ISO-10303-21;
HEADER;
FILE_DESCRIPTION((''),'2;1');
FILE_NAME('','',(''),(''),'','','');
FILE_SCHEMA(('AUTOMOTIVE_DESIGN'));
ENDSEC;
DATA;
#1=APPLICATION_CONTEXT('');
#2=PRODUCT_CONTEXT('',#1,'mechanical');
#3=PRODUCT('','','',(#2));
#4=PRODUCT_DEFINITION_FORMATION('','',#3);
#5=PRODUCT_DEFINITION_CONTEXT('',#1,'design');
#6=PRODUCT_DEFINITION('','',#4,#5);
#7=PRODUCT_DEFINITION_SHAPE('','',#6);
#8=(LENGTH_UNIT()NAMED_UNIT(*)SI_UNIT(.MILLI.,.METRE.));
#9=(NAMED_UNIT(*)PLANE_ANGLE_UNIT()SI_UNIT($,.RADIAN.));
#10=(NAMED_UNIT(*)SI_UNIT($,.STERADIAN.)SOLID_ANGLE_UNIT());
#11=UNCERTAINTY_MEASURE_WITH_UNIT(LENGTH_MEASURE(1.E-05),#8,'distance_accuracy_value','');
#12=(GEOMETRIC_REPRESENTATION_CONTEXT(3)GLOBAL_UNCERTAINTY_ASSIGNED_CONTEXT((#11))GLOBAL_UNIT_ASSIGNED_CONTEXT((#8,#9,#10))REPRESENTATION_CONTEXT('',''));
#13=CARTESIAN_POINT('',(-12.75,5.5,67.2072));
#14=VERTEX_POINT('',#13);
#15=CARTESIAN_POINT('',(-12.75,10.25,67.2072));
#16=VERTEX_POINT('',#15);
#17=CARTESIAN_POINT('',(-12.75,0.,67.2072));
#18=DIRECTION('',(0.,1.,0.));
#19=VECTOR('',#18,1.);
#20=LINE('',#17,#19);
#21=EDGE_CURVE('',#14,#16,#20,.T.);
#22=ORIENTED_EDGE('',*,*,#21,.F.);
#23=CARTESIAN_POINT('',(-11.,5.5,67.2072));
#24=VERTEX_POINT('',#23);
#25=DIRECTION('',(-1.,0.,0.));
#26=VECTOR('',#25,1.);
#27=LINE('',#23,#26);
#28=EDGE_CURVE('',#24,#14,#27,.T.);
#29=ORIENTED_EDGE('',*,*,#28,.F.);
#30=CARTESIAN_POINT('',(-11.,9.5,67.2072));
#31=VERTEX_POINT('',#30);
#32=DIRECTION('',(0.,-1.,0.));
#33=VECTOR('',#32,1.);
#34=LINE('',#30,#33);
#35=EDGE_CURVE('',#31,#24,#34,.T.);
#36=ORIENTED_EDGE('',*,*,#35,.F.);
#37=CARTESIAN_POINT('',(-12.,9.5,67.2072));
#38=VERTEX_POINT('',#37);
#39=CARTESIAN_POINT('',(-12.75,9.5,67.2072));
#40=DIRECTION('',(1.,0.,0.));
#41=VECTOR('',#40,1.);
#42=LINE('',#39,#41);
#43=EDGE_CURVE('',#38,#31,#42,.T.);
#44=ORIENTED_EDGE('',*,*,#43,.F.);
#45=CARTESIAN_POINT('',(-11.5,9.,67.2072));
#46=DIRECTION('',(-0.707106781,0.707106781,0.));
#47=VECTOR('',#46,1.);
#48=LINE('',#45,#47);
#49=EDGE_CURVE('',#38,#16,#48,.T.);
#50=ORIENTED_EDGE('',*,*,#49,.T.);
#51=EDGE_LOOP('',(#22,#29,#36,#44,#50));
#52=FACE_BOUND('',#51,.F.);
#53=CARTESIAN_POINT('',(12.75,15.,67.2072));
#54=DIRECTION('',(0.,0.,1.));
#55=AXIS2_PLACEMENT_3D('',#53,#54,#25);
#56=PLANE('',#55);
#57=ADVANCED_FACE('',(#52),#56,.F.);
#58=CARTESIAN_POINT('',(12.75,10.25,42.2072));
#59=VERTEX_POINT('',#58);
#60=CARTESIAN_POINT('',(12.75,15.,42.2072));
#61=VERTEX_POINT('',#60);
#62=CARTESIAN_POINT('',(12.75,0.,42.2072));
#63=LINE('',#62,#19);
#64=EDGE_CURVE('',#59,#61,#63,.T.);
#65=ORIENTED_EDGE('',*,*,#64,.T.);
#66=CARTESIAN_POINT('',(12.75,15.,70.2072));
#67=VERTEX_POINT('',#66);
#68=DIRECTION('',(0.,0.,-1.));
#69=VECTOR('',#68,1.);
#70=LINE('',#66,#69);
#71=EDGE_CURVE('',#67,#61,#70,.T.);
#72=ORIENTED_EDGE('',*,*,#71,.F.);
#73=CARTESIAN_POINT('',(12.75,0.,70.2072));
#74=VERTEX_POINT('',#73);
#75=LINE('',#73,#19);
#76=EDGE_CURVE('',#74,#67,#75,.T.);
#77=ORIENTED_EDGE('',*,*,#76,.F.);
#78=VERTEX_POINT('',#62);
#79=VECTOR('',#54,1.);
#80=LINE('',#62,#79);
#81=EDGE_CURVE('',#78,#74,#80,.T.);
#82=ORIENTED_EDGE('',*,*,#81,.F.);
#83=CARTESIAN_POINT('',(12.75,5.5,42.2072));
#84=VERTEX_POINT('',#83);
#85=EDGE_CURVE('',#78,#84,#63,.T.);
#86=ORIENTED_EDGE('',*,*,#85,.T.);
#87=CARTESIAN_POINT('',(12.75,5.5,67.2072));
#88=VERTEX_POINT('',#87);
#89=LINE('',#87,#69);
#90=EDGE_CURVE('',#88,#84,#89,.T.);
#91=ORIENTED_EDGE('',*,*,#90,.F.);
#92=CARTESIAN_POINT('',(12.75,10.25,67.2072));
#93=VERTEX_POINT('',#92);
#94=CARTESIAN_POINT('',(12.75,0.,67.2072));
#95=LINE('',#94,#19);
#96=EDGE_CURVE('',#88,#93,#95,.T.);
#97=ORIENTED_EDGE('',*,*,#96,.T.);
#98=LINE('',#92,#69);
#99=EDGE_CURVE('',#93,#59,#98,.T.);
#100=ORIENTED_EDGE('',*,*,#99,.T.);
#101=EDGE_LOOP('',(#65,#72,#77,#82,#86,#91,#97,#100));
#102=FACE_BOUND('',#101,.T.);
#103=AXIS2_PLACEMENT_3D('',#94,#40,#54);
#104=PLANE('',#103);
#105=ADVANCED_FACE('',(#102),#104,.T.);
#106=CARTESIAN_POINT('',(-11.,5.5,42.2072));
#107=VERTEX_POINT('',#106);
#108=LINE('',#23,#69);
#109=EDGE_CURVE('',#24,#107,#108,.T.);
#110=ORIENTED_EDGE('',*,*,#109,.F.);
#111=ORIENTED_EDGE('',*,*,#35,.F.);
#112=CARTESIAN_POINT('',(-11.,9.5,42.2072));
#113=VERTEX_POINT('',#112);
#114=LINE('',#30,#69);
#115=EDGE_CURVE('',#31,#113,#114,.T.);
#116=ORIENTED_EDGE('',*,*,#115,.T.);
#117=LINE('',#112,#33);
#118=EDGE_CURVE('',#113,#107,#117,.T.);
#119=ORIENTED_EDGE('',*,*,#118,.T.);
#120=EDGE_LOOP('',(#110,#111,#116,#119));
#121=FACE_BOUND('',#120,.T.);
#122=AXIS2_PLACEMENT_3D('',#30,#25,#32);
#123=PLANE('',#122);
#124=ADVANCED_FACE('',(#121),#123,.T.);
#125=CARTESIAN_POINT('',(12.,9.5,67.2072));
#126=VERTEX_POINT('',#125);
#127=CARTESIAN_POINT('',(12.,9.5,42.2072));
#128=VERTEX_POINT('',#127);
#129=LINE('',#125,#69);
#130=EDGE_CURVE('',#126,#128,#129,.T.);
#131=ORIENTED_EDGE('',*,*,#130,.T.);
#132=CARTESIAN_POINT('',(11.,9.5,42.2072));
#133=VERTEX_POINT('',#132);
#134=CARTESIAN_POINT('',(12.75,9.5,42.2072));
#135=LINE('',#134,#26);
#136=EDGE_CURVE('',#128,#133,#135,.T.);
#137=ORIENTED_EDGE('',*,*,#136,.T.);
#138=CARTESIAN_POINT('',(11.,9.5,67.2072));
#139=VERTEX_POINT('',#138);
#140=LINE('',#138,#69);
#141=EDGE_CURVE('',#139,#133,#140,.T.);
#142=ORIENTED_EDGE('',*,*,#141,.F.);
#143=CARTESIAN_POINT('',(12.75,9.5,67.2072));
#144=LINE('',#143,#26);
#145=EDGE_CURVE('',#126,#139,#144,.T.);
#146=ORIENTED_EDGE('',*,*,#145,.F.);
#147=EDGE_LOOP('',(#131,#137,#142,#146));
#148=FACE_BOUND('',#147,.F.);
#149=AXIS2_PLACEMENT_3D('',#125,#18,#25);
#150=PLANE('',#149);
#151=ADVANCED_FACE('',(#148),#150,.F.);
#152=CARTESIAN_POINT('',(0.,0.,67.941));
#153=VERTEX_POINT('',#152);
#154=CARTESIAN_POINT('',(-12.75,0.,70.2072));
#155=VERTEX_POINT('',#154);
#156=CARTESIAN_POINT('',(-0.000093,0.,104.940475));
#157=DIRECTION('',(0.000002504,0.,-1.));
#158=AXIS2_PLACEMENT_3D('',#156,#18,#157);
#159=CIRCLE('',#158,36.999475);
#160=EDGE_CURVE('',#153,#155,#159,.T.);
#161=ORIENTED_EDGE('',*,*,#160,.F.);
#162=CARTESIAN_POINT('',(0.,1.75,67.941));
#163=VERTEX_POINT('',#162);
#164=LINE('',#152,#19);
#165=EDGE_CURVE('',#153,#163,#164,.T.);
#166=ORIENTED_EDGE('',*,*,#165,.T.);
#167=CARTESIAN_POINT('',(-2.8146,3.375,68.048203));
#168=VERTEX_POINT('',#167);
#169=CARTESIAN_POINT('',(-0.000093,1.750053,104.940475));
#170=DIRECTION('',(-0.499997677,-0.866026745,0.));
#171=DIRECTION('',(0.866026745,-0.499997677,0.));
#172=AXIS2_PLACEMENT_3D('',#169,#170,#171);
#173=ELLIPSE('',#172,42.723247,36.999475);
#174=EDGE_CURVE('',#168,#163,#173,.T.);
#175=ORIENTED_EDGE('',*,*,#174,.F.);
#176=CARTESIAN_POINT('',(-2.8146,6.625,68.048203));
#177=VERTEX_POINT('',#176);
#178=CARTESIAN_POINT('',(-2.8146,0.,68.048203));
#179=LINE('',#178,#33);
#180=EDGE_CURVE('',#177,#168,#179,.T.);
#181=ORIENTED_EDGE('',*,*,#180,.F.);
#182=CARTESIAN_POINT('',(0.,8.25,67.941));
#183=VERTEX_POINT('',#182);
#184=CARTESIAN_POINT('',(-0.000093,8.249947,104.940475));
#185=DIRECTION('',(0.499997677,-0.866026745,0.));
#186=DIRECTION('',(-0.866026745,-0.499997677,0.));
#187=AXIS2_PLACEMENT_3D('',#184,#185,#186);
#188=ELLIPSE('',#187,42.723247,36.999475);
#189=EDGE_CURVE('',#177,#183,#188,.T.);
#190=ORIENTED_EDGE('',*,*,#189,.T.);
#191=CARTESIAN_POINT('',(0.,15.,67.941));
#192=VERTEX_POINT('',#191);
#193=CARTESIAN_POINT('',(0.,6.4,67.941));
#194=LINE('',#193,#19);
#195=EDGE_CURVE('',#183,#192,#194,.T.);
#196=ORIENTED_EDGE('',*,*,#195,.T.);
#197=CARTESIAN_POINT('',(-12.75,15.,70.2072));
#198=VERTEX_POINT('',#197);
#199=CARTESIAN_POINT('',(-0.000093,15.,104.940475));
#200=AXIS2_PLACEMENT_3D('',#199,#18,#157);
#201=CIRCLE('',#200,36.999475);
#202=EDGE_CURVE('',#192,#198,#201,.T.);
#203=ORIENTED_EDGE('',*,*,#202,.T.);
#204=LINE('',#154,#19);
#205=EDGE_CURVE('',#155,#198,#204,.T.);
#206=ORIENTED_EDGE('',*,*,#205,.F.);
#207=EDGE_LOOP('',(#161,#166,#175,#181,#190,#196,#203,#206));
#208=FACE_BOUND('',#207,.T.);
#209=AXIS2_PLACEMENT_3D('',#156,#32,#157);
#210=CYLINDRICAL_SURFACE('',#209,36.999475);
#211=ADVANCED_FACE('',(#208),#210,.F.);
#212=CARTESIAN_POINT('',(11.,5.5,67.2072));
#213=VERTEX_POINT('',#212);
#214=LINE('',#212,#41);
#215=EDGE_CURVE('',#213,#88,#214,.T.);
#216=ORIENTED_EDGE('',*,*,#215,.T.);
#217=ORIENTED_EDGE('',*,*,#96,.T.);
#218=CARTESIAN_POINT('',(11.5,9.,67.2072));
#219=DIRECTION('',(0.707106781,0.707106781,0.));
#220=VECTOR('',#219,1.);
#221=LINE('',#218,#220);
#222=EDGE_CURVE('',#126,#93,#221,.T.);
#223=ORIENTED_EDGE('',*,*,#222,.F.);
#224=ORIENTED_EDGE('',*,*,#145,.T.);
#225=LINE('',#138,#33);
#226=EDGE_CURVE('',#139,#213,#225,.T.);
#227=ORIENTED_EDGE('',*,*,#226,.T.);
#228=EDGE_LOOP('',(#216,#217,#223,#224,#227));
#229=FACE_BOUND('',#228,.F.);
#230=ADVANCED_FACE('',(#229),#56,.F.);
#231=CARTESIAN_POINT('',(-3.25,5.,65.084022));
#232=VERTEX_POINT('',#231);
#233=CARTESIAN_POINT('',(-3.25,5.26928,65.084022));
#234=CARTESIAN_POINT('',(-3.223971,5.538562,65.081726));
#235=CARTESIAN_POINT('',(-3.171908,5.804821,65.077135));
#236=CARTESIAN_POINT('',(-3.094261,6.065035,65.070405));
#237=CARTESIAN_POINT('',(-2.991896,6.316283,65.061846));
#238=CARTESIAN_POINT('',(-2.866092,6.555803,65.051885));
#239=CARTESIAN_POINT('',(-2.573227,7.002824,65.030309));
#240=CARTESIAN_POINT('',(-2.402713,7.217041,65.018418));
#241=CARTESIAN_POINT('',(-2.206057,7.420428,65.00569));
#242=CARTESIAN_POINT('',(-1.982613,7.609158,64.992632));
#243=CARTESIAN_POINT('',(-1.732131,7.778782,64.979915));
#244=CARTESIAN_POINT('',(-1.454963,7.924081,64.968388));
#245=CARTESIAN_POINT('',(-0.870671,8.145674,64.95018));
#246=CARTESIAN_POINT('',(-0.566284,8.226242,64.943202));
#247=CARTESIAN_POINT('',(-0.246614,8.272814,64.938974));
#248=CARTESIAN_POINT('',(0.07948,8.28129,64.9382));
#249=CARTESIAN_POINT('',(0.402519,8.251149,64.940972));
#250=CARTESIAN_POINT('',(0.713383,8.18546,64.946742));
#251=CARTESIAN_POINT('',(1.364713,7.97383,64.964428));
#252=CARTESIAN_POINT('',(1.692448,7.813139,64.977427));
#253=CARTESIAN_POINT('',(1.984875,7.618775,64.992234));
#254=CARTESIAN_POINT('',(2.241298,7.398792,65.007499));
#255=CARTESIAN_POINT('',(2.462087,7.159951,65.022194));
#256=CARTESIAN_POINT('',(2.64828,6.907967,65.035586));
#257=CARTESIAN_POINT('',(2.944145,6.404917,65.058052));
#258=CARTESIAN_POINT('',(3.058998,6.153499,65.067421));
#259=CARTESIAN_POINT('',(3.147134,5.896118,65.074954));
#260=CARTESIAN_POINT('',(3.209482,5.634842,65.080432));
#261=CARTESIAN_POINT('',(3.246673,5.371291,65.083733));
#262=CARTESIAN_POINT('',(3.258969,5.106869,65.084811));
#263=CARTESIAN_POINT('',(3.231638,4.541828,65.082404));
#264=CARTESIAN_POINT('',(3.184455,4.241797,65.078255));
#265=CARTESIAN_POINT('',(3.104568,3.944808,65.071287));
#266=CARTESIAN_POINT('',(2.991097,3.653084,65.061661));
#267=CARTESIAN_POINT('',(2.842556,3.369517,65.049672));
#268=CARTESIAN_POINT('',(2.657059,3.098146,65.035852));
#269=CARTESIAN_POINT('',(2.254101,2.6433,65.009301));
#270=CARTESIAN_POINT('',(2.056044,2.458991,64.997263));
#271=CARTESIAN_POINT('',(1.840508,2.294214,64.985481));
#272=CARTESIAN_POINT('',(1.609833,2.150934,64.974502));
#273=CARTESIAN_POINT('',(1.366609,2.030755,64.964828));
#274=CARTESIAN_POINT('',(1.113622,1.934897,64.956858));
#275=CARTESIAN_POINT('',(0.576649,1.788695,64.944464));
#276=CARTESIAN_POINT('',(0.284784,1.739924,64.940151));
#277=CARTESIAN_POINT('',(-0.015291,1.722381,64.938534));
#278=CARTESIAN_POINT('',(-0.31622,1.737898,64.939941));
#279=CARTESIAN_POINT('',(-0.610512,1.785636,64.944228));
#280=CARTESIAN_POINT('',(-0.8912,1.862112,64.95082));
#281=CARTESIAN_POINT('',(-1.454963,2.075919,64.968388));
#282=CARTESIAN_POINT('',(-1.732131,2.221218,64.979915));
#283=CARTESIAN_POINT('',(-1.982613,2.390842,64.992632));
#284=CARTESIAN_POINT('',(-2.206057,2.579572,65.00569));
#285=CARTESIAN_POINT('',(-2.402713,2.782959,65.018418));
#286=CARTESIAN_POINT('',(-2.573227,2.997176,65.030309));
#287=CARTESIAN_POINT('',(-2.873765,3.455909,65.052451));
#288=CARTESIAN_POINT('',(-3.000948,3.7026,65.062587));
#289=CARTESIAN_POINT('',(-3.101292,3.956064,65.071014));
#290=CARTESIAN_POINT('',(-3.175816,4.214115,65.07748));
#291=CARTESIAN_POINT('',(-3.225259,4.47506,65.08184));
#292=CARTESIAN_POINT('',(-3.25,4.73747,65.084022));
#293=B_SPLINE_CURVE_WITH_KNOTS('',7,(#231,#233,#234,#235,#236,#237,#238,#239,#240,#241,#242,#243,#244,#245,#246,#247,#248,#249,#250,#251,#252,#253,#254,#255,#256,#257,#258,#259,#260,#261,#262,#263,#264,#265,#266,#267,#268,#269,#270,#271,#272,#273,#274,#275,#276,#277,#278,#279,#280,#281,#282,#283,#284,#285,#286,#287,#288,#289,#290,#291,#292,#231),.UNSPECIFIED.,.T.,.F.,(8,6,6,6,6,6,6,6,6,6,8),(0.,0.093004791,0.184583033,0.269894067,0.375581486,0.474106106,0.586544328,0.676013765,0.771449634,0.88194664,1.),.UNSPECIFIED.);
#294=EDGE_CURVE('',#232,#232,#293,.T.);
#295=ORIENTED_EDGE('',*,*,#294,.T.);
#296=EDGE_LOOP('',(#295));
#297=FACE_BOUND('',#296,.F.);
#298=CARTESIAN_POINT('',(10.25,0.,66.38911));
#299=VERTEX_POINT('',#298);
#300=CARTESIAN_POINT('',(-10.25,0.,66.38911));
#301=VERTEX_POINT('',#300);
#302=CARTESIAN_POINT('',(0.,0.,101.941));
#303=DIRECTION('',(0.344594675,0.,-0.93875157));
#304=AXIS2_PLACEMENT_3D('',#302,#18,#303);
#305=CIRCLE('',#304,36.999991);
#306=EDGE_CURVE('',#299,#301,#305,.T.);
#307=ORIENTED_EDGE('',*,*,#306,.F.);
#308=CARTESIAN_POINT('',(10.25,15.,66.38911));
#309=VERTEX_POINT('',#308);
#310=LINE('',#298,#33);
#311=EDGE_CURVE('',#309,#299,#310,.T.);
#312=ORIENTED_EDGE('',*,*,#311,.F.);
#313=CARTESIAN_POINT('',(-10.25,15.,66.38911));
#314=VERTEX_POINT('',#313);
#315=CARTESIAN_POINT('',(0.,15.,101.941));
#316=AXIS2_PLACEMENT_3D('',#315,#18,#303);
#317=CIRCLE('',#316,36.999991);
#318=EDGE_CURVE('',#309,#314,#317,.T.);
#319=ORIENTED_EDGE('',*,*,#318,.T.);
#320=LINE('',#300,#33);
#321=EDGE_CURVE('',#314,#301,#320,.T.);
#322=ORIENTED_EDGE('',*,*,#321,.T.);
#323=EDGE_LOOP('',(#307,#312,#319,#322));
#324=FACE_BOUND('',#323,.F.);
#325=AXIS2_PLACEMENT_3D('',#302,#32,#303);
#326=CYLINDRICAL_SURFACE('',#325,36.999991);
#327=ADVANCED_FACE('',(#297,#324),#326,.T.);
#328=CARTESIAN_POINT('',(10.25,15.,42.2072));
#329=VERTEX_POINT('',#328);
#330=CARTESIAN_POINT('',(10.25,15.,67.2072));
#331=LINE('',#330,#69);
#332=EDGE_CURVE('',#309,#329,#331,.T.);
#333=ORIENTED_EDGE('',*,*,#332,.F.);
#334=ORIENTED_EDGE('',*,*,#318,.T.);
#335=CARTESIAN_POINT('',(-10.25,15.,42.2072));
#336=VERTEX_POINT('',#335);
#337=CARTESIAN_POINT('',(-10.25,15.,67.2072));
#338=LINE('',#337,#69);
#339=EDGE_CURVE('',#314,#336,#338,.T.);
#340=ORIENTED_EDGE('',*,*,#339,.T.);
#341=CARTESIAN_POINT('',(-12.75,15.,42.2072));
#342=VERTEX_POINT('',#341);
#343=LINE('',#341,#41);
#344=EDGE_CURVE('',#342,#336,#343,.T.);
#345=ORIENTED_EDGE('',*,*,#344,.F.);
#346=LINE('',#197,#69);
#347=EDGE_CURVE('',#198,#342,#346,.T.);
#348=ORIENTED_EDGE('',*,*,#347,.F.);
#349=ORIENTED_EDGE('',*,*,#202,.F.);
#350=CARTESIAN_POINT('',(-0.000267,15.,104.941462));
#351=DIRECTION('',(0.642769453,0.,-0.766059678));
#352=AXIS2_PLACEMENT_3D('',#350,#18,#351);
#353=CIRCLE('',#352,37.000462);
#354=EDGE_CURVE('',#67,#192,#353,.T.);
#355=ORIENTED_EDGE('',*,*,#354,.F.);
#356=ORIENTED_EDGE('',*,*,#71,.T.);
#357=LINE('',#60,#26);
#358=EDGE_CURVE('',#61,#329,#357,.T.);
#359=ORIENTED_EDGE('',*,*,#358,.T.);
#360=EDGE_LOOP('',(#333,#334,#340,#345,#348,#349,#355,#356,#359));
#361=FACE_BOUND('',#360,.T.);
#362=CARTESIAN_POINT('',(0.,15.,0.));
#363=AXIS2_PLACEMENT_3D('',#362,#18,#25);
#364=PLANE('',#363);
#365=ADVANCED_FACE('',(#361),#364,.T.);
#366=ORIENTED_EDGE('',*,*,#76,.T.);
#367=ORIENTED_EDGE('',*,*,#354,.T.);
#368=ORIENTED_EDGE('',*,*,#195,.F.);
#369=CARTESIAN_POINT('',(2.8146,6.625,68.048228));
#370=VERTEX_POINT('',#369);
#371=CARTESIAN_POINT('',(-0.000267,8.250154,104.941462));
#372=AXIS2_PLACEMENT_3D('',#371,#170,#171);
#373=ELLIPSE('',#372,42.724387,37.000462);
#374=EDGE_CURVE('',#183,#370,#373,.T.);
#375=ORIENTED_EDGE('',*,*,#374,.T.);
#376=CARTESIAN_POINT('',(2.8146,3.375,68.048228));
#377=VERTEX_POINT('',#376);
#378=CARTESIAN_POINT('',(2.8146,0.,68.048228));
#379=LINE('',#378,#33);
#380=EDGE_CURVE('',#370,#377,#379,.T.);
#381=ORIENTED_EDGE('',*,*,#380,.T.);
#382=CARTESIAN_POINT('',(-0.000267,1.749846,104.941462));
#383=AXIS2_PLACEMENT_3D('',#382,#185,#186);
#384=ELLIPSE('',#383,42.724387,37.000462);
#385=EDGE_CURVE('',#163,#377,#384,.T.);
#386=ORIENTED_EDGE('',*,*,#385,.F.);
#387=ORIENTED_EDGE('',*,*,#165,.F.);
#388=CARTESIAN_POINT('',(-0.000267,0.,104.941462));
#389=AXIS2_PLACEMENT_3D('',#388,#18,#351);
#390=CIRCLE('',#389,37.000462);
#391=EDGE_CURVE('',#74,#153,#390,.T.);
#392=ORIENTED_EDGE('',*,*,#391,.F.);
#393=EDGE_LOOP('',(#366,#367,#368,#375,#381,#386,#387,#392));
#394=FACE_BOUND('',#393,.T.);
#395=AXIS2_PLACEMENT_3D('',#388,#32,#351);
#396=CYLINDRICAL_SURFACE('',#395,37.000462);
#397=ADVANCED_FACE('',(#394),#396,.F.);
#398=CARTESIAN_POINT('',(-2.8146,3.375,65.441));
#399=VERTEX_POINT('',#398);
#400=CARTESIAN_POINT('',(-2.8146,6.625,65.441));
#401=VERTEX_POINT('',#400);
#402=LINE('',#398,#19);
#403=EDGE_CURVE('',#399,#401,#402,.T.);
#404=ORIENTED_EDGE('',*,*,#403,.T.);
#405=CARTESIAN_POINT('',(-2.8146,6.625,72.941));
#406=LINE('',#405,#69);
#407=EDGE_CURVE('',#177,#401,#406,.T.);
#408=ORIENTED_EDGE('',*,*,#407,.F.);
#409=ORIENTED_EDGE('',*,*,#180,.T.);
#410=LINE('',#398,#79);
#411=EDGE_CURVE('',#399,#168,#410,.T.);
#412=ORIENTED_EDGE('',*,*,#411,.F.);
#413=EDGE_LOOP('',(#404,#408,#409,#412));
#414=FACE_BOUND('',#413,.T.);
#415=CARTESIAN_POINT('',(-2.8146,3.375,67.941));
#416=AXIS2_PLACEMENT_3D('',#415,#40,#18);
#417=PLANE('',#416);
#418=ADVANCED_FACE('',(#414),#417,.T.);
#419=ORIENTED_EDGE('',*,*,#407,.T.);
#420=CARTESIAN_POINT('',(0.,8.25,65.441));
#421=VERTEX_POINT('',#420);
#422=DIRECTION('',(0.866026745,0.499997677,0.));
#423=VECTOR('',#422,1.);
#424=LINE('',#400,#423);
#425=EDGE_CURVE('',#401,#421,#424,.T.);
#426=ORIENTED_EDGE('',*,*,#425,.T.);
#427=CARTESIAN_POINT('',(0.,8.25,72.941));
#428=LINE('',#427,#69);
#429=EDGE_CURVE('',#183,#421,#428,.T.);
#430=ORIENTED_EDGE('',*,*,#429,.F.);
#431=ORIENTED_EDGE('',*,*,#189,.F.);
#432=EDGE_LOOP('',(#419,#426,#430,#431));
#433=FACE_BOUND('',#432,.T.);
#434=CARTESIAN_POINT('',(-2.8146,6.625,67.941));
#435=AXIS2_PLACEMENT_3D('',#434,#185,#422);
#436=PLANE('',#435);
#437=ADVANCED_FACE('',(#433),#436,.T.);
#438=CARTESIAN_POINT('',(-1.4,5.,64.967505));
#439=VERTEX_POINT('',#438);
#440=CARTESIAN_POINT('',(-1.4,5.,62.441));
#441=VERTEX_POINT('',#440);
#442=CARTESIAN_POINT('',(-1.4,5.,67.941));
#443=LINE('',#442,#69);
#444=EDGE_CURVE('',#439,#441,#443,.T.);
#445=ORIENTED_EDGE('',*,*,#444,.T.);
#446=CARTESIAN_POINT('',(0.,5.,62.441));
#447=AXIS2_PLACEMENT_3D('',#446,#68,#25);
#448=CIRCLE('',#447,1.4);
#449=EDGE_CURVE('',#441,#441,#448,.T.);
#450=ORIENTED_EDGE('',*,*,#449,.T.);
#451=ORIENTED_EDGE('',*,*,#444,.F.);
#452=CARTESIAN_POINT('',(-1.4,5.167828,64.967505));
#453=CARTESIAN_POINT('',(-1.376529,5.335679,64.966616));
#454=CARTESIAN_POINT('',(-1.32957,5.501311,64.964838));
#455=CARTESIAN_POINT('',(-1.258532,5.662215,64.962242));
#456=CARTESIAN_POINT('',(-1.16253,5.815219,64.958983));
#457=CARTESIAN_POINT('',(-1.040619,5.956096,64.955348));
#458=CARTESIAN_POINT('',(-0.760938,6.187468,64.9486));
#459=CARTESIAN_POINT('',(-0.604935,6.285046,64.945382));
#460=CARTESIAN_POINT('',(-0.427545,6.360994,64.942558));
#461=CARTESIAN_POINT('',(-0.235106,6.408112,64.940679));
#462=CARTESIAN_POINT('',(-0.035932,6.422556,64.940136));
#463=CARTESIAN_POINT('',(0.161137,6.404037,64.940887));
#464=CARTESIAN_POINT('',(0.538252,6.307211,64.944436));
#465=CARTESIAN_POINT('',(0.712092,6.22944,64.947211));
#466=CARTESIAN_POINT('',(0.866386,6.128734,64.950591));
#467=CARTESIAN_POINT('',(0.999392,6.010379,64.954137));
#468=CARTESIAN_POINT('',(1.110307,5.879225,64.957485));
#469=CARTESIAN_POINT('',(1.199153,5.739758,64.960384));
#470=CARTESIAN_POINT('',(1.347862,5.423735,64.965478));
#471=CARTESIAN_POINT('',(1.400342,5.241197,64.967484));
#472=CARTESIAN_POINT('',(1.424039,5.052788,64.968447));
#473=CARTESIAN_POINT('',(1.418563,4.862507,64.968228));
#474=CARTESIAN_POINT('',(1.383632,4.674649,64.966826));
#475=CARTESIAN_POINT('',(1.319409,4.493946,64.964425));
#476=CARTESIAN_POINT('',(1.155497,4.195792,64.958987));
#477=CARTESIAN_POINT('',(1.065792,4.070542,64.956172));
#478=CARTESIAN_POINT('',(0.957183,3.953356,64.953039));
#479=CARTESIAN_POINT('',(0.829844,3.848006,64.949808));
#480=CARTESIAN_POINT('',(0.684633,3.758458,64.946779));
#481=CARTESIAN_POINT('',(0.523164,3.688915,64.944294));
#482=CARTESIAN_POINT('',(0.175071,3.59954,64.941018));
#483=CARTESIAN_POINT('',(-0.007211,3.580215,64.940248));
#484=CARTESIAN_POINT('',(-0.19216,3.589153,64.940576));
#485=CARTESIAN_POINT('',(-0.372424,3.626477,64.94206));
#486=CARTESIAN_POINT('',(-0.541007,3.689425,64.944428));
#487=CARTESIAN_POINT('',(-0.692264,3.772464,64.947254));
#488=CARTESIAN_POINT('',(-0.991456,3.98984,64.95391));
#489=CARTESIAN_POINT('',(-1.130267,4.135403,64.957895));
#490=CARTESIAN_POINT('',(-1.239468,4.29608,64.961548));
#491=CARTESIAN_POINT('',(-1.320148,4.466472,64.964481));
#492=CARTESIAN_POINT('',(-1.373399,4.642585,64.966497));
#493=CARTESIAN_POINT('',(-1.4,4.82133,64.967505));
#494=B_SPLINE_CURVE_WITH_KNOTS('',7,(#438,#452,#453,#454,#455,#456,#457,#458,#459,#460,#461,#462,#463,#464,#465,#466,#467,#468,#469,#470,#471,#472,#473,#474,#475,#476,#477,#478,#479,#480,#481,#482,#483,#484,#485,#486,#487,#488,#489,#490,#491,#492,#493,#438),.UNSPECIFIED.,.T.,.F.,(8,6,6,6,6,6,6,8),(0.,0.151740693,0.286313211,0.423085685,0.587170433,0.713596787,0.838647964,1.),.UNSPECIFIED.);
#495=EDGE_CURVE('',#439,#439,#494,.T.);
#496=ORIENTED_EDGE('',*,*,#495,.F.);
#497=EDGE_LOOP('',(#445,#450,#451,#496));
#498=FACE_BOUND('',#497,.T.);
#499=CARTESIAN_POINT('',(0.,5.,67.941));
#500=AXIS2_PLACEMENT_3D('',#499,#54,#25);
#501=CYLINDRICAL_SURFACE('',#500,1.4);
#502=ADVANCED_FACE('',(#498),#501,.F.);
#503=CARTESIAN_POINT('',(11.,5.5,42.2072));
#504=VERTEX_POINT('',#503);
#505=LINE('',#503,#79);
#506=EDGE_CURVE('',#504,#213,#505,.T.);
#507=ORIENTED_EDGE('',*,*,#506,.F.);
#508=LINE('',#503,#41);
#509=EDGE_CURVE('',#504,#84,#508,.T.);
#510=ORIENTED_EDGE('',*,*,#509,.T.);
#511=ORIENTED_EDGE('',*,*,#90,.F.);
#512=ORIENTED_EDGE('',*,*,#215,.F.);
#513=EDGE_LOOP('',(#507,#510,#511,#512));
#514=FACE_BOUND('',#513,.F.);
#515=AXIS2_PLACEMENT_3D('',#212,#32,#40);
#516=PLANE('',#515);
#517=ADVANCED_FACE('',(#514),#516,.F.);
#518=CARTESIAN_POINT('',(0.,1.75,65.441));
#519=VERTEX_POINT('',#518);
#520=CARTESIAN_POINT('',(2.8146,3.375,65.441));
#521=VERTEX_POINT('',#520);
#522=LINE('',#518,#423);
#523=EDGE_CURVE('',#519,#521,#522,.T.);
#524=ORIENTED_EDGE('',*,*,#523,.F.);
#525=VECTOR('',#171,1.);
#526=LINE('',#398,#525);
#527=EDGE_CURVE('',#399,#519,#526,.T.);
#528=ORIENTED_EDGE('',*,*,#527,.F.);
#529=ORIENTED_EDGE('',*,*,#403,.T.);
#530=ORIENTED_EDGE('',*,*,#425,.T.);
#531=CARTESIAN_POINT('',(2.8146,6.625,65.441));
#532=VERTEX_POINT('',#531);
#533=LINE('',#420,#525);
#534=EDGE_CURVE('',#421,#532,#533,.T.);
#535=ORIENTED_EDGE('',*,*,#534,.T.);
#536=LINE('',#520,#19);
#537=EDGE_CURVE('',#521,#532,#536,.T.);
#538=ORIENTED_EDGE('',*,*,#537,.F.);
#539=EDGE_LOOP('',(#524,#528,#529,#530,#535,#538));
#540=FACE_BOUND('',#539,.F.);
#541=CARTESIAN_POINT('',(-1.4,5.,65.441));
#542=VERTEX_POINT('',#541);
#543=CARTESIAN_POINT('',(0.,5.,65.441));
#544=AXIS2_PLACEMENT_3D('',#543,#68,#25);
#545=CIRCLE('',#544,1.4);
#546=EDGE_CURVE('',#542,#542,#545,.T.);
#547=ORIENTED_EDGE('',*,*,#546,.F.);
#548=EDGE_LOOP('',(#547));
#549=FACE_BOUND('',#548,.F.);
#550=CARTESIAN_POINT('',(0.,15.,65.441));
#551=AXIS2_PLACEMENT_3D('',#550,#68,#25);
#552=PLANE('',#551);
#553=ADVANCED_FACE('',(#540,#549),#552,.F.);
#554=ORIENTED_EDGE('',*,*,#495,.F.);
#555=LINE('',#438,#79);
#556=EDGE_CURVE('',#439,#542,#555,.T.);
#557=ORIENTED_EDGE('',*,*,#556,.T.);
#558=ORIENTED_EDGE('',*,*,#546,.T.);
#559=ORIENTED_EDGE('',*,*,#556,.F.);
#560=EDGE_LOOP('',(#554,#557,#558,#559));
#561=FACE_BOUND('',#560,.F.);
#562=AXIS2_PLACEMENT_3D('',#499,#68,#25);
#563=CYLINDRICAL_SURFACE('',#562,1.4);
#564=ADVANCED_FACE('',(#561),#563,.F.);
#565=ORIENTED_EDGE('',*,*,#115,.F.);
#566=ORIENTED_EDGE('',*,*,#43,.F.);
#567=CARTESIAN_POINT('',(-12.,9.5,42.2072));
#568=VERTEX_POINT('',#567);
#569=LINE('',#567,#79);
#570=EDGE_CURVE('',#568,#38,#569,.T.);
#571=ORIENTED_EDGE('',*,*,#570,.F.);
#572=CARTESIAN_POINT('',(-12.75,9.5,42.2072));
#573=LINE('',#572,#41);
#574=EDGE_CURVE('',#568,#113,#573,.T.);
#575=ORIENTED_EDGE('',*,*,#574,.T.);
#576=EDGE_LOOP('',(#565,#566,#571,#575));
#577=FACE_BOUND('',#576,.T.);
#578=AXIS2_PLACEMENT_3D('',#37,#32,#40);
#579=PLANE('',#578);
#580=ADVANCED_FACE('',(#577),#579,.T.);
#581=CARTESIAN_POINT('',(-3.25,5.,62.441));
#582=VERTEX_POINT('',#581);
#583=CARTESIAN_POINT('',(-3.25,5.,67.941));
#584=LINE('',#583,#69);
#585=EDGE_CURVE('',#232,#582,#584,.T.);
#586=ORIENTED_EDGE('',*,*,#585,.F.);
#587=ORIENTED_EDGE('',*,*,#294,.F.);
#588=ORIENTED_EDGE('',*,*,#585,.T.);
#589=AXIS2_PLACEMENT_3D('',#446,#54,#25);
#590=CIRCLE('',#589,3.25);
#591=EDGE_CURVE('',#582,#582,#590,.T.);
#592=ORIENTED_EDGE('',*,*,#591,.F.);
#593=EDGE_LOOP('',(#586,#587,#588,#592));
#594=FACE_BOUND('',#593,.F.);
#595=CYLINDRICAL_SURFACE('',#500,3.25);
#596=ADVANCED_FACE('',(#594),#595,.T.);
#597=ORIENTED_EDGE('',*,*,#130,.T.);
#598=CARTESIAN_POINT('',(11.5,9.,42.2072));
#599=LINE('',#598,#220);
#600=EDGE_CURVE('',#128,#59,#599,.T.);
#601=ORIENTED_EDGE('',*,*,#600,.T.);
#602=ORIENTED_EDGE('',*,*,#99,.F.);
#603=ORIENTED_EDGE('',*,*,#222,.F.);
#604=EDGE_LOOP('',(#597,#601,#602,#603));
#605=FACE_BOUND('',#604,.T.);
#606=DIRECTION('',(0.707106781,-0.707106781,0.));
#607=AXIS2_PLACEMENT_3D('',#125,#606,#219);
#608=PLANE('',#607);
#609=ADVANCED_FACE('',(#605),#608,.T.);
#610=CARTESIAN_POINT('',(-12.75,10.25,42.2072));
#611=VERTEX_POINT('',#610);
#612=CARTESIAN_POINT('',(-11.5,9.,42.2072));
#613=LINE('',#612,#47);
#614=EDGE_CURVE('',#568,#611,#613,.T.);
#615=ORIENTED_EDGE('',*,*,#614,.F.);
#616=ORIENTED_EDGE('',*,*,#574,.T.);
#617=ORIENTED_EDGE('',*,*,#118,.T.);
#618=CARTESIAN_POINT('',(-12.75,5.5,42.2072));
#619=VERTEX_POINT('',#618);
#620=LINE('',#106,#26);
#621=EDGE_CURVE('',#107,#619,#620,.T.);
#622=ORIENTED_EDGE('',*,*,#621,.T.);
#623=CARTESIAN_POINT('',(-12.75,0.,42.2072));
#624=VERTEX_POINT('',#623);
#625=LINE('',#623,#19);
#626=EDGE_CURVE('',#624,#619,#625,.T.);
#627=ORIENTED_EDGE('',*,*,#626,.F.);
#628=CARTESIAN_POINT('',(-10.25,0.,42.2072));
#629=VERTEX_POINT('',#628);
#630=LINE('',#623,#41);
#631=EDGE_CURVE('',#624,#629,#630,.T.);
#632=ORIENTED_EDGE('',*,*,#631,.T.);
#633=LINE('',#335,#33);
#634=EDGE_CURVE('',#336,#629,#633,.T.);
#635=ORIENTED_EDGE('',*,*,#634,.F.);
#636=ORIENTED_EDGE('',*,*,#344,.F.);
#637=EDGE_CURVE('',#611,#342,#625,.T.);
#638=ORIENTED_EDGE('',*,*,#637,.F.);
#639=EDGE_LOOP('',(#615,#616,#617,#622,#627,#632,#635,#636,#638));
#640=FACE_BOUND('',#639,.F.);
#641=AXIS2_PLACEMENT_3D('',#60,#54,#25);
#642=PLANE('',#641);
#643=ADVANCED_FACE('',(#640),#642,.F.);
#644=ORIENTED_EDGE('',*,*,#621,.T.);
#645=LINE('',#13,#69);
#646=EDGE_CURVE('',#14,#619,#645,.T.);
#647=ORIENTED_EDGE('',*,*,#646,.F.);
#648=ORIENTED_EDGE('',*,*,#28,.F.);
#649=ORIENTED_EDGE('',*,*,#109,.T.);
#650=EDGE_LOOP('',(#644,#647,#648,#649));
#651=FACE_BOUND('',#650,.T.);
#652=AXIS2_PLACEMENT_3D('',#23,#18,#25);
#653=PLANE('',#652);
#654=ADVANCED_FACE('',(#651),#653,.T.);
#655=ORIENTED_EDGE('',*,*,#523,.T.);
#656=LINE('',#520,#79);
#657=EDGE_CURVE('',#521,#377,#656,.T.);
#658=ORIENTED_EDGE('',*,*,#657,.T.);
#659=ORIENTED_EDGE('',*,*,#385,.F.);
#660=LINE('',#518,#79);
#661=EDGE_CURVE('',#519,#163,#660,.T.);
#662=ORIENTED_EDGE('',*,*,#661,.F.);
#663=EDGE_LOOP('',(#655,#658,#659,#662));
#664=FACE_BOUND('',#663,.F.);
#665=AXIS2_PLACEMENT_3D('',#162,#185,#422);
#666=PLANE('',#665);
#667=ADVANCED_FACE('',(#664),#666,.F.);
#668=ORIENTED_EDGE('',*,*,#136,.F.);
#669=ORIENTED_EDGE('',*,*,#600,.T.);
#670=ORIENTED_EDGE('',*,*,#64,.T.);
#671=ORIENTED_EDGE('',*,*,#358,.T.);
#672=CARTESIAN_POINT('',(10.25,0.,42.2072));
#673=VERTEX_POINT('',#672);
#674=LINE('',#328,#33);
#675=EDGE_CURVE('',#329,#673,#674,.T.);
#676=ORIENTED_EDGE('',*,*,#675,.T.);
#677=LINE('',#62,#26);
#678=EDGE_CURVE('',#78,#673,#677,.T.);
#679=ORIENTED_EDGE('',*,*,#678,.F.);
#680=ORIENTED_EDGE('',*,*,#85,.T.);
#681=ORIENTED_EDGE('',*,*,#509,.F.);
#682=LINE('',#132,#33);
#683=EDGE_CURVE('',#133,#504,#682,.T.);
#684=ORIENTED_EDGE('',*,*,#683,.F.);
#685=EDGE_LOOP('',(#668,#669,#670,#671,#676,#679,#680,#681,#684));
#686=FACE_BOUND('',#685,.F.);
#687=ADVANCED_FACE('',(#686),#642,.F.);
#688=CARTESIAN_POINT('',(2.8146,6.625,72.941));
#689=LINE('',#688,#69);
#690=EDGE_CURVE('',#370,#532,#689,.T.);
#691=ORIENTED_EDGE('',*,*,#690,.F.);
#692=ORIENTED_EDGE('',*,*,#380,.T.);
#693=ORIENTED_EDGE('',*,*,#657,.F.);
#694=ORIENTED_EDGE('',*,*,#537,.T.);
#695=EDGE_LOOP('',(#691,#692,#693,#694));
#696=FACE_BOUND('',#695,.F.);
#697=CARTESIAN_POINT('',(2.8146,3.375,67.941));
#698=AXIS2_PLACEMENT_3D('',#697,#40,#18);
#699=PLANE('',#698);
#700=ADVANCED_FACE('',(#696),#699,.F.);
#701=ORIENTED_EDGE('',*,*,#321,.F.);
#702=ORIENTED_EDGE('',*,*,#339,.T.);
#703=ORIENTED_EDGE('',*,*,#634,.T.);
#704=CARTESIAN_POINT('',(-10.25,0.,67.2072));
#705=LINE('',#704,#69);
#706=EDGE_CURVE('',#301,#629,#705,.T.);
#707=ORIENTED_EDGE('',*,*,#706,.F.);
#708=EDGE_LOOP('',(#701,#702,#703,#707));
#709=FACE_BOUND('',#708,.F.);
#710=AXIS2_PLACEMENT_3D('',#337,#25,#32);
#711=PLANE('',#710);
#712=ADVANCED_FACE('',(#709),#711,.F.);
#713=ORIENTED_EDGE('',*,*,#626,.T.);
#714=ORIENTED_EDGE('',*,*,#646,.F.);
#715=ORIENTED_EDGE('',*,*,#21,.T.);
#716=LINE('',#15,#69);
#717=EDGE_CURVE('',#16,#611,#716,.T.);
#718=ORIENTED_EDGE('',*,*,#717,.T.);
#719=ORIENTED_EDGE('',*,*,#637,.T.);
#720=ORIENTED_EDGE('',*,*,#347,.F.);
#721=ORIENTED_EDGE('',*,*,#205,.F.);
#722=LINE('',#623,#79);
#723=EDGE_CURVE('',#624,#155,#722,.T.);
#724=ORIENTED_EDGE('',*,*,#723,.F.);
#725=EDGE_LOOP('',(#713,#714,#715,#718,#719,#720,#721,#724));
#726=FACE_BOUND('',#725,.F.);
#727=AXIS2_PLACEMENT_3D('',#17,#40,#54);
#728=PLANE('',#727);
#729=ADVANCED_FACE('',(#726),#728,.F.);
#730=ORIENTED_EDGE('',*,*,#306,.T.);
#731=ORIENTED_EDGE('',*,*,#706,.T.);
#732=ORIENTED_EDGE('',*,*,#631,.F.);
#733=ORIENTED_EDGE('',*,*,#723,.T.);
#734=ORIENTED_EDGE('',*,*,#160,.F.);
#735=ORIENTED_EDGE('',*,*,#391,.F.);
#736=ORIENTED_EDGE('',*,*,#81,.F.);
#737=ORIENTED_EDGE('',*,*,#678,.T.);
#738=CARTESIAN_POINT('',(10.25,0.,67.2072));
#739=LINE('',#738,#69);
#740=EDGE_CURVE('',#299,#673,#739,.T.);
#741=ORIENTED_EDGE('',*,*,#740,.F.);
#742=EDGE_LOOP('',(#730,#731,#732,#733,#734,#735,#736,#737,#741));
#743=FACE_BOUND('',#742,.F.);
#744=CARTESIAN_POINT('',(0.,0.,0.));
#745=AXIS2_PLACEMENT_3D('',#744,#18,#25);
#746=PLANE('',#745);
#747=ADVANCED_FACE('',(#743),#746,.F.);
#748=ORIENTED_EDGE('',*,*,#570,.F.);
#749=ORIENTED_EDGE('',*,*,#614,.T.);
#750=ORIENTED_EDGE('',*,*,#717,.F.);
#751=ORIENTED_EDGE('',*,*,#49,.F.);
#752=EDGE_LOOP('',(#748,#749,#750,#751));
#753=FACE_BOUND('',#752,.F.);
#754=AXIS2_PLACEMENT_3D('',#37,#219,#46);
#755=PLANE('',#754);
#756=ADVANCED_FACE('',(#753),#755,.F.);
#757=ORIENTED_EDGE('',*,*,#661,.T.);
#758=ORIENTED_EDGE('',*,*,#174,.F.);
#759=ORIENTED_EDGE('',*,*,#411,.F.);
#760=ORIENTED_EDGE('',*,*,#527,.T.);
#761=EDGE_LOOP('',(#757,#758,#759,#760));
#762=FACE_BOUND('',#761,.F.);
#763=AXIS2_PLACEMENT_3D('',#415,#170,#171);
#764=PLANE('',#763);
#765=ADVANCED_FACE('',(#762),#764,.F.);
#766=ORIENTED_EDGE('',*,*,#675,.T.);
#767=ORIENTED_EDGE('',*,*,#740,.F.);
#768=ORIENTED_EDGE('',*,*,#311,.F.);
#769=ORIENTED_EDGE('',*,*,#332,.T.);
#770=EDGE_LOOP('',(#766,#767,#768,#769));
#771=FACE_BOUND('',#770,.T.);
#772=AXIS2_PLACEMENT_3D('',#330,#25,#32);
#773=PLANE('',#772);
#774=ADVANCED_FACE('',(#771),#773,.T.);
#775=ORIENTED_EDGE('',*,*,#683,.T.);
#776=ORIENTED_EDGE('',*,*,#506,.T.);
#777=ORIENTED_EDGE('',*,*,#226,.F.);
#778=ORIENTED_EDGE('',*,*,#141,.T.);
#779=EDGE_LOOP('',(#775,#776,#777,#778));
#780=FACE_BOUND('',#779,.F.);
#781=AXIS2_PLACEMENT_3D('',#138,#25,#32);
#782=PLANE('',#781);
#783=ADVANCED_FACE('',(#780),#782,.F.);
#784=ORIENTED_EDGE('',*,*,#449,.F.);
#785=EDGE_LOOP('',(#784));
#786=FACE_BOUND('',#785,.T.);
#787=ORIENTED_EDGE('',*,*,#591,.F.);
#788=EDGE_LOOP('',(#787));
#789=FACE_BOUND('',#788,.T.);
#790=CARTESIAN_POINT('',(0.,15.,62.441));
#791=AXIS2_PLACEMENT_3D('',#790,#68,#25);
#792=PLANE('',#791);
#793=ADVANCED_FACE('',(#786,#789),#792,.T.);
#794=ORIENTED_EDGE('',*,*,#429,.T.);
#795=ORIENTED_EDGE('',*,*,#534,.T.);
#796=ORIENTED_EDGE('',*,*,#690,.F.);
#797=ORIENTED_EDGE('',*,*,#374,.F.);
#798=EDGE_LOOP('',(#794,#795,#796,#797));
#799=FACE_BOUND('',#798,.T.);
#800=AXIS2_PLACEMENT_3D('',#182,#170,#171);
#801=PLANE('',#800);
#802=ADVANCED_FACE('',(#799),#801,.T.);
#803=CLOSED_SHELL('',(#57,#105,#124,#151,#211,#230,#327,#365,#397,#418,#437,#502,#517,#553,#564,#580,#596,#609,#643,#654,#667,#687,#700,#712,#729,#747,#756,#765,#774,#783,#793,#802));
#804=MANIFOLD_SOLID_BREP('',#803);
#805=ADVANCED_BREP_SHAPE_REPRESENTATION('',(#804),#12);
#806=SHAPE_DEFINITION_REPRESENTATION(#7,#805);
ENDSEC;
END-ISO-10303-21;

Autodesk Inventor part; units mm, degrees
sketch "Эскиз1" plane through (0, 0, 0) normal (0, 1, 0) x (-1, 0, 0)
  line L0 (0, 56.6418) -> (23.7825, 76.5969) construction
  line L1 (44.1942, 76.014) -> (76.014, 44.1942) construction
  line L2 (91.1, 52.2091) -> (52.2091, 91.1) construction
  line L3 (0, 0) -> (74.2462, 74.2462) construction
  arc A0 (92.5543, 49.5852) -> (48.7014, 93.0224) centre (0, 0) ccw construction
  line L4 (52.2091, 91.1) -> (48.6736, 87.5645) construction
  arc A1 (44.1942, 83.085) -> (44.1942, 76.014) centre (47.7297, 79.5495) ccw construction
  line L5 (52.2091, 91.1) -> (48.6736, 87.5645) construction
  line L6 (48.6736, 87.5645) -> (52.2091, 91.1) construction
  spline S0 degree 2 poles (48.6736, 87.5645) (52.2091, 91.1) (48.7014, 93.0224) knots 1 1 1 2 2 2 construction
  line L7 (52.2091, 91.1) -> (48.7014, 93.0224) construction
  line L8 (52.2091, 91.1) -> (48.7014, 93.0224) construction
  arc A2 (48.7014, 93.0224) -> (44.0271, 95.3237) centre (0, 0) ccw construction
  arc A3 (44.0271, 95.3237) -> (43.577, 95.5303) centre (0, 0) ccw construction
  line L9 (42.6652, 95.941) -> (43.577, 95.5303) construction
  line L10 (42.6652, 95.941) -> (43.577, 95.5303) construction
  spline S1 degree 2 poles (42.0492, 94.5734) (42.6652, 95.941) (43.577, 95.5303) knots 1 1 1 2 2 2 construction
  line L11 (42.0492, 94.5734) -> (42.6652, 95.941) construction
  line L12 (42.6652, 95.941) -> (42.0492, 94.5734) construction
  line L13 (0, 0) -> (0, 209.8821) construction
  spline S2 degree 2 poles (-48.6736, 87.5645) (-52.2091, 91.1) (-48.7014, 93.0224) knots 1 1 1 2 2 2 construction
  line L14 (-48.6736, 87.5645) -> (-52.2091, 91.1) construction
  line L15 (-52.2091, 91.1) -> (-48.7014, 93.0224) construction
  arc A4 (-44.1942, 76.014) -> (-44.1942, 83.085) centre (-47.7297, 79.5495) ccw construction
  line L16 (-44.1942, 76.014) -> (-76.014, 44.1942) construction
  arc A5 (-48.7014, 93.0224) -> (-92.5543, 49.5852) centre (0, 0) ccw construction
  arc A6 (-83.085, 44.1942) -> (-76.014, 44.1942) centre (-79.5495, 47.7297) ccw construction
  line L17 (-83.085, 44.1942) -> (-87.3563, 48.4654) construction
  spline S3 degree 2 poles (-48.6736, -87.5645) (-52.2091, -91.1) (-48.7014, -93.0224) knots 1 1 1 2 2 2 construction
  line L18 (-48.6736, -87.5645) -> (-52.2091, -91.1) construction
  line L19 (-52.2091, -91.1) -> (-48.7014, -93.0224) construction
  circle A7 centre (0, 0) radius 35 construction
  line L20 (-46.3155, -73.8927) -> (-73.8927, -46.3155) construction
  arc A8 (-73.8927, -46.3155) -> (-85.2064, -46.3155) centre (-79.5495, -51.9723) ccw construction
  line L21 (-85.2064, -46.3155) -> (-87.5645, -48.6736) construction
  line L22 (-87.5645, -48.6736) -> (-91.1, -52.2091) construction
  spline S4 degree 2 poles (-87.5645, -48.6736) (-91.1, -52.2091) (-92.5543, -49.5852) knots 1 1 1 2 2 2 construction
  line L23 (-91.1, -52.2091) -> (-92.5543, -49.5852) construction
  arc A9 (-92.5543, -49.5852) -> (-48.7014, -93.0224) centre (0, 0) ccw construction
  arc A10 (-92.5543, 49.5852) -> (-92.5543, -49.5852) centre (0, 0) ccw construction
  line L24 (48.6736, -87.5645) -> (46.3155, -85.2064) construction
  arc A11 (-46.3155, -85.2064) -> (-46.3155, -73.8927) centre (-51.9723, -79.5495) ccw construction
  line L25 (-48.6736, -87.5645) -> (-46.3155, -85.2064) construction
  arc A12 (-48.7014, -93.0224) -> (48.7014, -93.0224) centre (0, 0) ccw construction
  arc A13 (46.3155, -73.8927) -> (46.3155, -85.2064) centre (51.9723, -79.5495) ccw construction
  arc A14 (43.577, 95.5303) -> (-43.577, 95.5303) centre (0, 0) ccw construction
  arc A15 (23.7825, 76.5969) -> (0, 67.941) centre (0, 104.941) ccw construction
  line L26 (0, 56.6418) -> (-35.5516, 86.4744) construction
  line L27 (44.0271, 95.3237) -> (44.0271, 127.8162) construction
  ellipse E0 centre (0, 102.7511) end of major axis (44.0271, 102.7511) minor radius 27.5932 (42.0492, 94.5734) -> (35.2734, 86.2384) ccw construction
  line L28 (42.6652, 95.941) -> (-42.6652, 95.941) construction
  ellipse E1 centre (0, 102.7511) end of major axis (44.5159, 105.2445) minor radius 28.887 (35.2734, 86.2384) -> (42.0492, 94.5734) ccw construction
  line L29 (23.7825, 76.5969) -> (35.2734, 86.2384) construction
  arc A16 (0, 67.941) -> (23.7825, 76.5969) centre (0, 104.941) ccw
  arc A17 (-23.7825, 76.5969) -> (0, 67.941) centre (0, 104.941) ccw
  line L30 (-23.7825, 76.5969) -> (-35.2734, 86.2384) construction
  line L31 (-42.6652, 95.941) -> (-42.0492, 94.5734) construction
  arc A18 (-43.577, 95.5303) -> (-48.7014, 93.0224) centre (0, 0) ccw construction
  line L32 (-42.6652, 95.941) -> (-43.577, 95.5303) construction
  spline S5 degree 2 poles (-42.0492, 94.5734) (-42.6652, 95.941) (-43.577, 95.5303) knots 1 1 1 2 2 2 construction
  line L33 (-42.0492, 94.5734) -> (-42.6652, 95.941) construction
  line L34 (-42.6652, 95.941) -> (-43.577, 95.5303) construction
  line L35 (-42.6652, 95.941) -> (-43.577, 95.5303) construction
  spline S6 degree 2 poles (-42.0492, 94.5734) (-42.6652, 95.941) (-43.577, 95.5303) knots 1 1 1 2 2 2 construction
  line L36 (-42.0492, 94.5734) -> (-42.6652, 95.941) construction
  ellipse E2 centre (0, 102.7511) end of major axis (-44.5159, 105.2445) minor radius 28.887 (-42.0492, 94.5734) -> (-35.2734, 86.2384) ccw construction
  line L37 (83.085, 44.1942) -> (87.5645, 48.6736) construction
  arc A19 (76.014, 44.1942) -> (83.085, 44.1942) centre (79.5495, 47.7297) ccw construction
  spline S7 degree 2 poles (48.6736, -87.5645) (52.2091, -91.1) (48.7014, -93.0224) knots 1 1 1 2 2 2 construction
  line L38 (48.6736, -87.5645) -> (52.2091, -91.1) construction
  line L39 (52.2091, -91.1) -> (48.7014, -93.0224) construction
  line L40 (46.3155, -73.8927) -> (73.8927, -46.3155) construction
  arc A20 (85.2064, -46.3155) -> (73.8927, -46.3155) centre (79.5495, -51.9723) ccw construction
  line L41 (85.2064, -46.3155) -> (87.5645, -48.6736) construction
  spline S8 degree 2 poles (87.5645, -48.6736) (91.1, -52.2091) (92.5543, -49.5852) knots 1 1 1 2 2 2 construction
  line L42 (87.5645, -48.6736) -> (91.1, -52.2091) construction
  line L43 (91.1, -52.2091) -> (92.5543, -49.5852) construction
  arc A21 (92.5543, -49.5852) -> (92.5543, 49.5852) centre (0, 0) ccw construction
  arc A22 (48.7014, -93.0224) -> (92.5543, -49.5852) centre (0, 0) ccw construction
  arc A23 (28.5452, 71.4571) -> (-28.5452, 71.4571) centre (0, 104.941) ccw construction
  line L44 (-83.085, 34.2947) -> (-90.6891, 41.8987) construction
  line L45 (-93.5297, 47.6709) -> (-92.5543, 49.5852) construction
  line L46 (-29.1816, 81.127) -> (-76.014, 34.2947) construction
  arc A24 (-83.085, 34.2947) -> (-76.014, 34.2947) centre (-79.5495, 37.8302) ccw construction
  line L47 (-34.1491, 76.1596) -> (-28.5452, 71.4571) construction
  arc A25 (-30.6393, 73.2144) -> (-37.3889, 72.9198) centre (-33.8534, 69.3842) ccw construction
  arc A26 (-90.6891, 41.8987) -> (-87.3563, 48.4654) centre (0, 0) ccw construction
  arc A27 (37.3889, 72.9198) -> (30.6393, 73.2144) centre (33.8534, 69.3842) ccw construction
  line L48 (29.1816, 81.127) -> (76.014, 34.2947) construction
  arc A28 (76.014, 34.2947) -> (83.085, 34.2947) centre (79.5495, 37.8302) ccw construction
  line L49 (83.085, 34.2947) -> (90.6891, 41.8987) construction
  arc A29 (76.014, 44.1942) -> (83.085, 44.1942) centre (79.5495, 47.7297) ccw construction
  line L50 (44.1942, 76.014) -> (76.014, 44.1942) construction
  arc A30 (44.1942, 83.085) -> (44.1942, 76.014) centre (47.7297, 79.5495) ccw construction
  arc A31 (5.5413, 61.2914) -> (28.5452, 71.4571) centre (0, 104.941) ccw
  arc A32 (-28.5452, 71.4571) -> (5.5413, 61.2914) centre (0, 104.941) ccw
  line L51 (34.1491, 76.1596) -> (28.5452, 71.4571) construction
  arc A33 (-87.3563, 48.4654) -> (-90.6891, 41.8987) centre (0, 0) ccw construction
  line L52 (83.085, 44.1942) -> (87.3563, 48.4654) construction
  arc A34 (90.6891, 41.8987) -> (87.3563, 48.4654) centre (0, 0) ccw construction
  line L53 (-44.1942, 83.085) -> (-48.6736, 87.5645) construction
  line L54 (44.0271, 95.3237) -> (43.577, 95.5303) construction
  line L55 (48.6736, 87.5645) -> (44.1942, 83.085) construction
  line L56 (0, 104.941) -> (-23.6028, 54.3247) construction
  circle A35 centre (31.1916, 76.2887) radius 2 construction
  line L57 (29.1816, 81.127) -> (23.7825, 76.5969)
  line L58 (29.1816, 81.127) -> (34.1491, 76.1596)
  line L59 (34.1491, 76.1596) -> (28.5452, 71.4571)
  line L60 (-28.5452, 71.4571) -> (-34.1491, 76.1596)
  line L61 (-23.7825, 76.5969) -> (-29.1816, 81.127)
  line L62 (-29.1816, 81.127) -> (-34.1491, 76.1596)
  arc A36 (-26.6462, 78.9996) -> (-31.2232, 73.7044) centre (-28.9734, 76.3855) ccw
  arc A37 (31.2232, 73.7044) -> (26.6462, 78.9996) centre (28.9734, 76.3855) ccw
  line L63 (12.75, 58.0269) -> (-12.75, 58.0269)
  line L64 (0, 67.941) -> (0, 64.941) construction
  line L65 (-12.75, 58.0269) -> (-12.75, 67.2072) construction
  line L66 (12.75, 58.0269) -> (12.75, 67.2072) construction
  arc A38 (-12.75, 67.2072) -> (12.75, 67.2072) centre (0, 101.941) ccw
  line L67 (12.75, 67.2072) -> (12.75, 70.2072)
  line L68 (-12.75, 70.2072) -> (-12.75, 70.2072) construction
  line L69 (-12.75, 67.2072) -> (-12.75, 70.2072)
  line L70 (10.1, 59.4125) -> (-10.1, 59.4125) construction
  point P0 (60.1041, 60.1041)
  point P1 (40.6586, 79.5495)
  point P2 (79.5495, 40.6586)
  point P3 (0, 105)
  point P4 (-87.5645, 48.6736)
  point P5 (-23.542, 76.3968)
  point P6 (-34.9935, 86.0061)
  point P7 (0, 95.941)
  point P8 (-94.5192, 45.7288)
  point P9 (-13.2817, 58.6489)
  point P10 (-28.5452, 71.4571)
  point P11 (13.2817, 58.6489)
  point P12 (-15.6369, 71.4076)
  point P13 (-26.8032, 79.1314)
  point P14 (-31.2232, 73.7044)
  point P15 (26.8032, 79.1314)
  dimension "d67" = 44.5856
  dimension "d48" = 74
  dimension "d49" = 100
  dimension "d50" = 28
  dimension "d51" = 15
  dimension "d52" = 45
  dimension "d53" = 55
  dimension "d54" = 16.3348
  dimension "d55" = 27.5
  dimension "d56" = 5
  dimension "d57" = 5
  dimension "d58" = 1
  dimension "d59" = 1.5
  dimension "d60" = 1.5
  dimension "d61" = 1
  dimension "d62" = 4
  dimension "d63" = 70
  dimension "d64" = 85
  dimension "d65" = 105
  dimension "d66" = 1.3619
  dimension "d68" = 88
  dimension "d69" = 7
  dimension "d70" = 5
  dimension "d71" = 7
  dimension "d72" = 5
  dimension "d73" = 7
  dimension "d74" = 5
  dimension "d75" = 5.1
  dimension "d78" = 4
  dimension "d166" = 25.5
  dimension "d169" = 3
  dimension "d171" = 3
  dimension "d172" = 3
  dimension "d173" = 20.2
extrude "Выдавливание7" add sketch "Эскиз1" along normal blind 15 contours A16 L67 A38 L69 A17
ref_plane "РабПлоскость1" through (12.75, 15, 67.2072) normal (0, 0, 1) x (-1, 0, 0)
sketch "Эскиз6" plane through (12.75, 15, 67.2072) normal (0, 0, 1) x (-1, 0, 0)
  line L0 (0, 15) -> (25.5, 15) construction
  line L1 (25.5, 15) -> (25.5, 0) construction
  line L2 (0, 0) -> (25.5, 0) construction
  line L3 (0, 15) -> (0, 0) projected
  line L4 (25.5, 0) -> (0, 0) construction
  line L5 (12.75, 0) -> (12.75, 15) construction
  line L6 (12.75, 0) -> (-0.25, 0) construction
  line L7 (-0.25, 0) -> (-0.25, 15) construction
  line L8 (-0.25, 15) -> (12.75, 15) construction
  line L9 (12.75, 15) -> (12.75, 0) construction
  line L10 (-0.25, 6) -> (1.25, 6) construction
  line L11 (1.25, 6) -> (1.25, 9) construction
  line L12 (1.25, 9) -> (-0.25, 9) construction
  line L13 (-0.25, 9) -> (-0.25, 6) construction
  line L14 (0, 5.5) -> (1.75, 5.5)
  line L15 (1.75, 5.5) -> (1.75, 9.5)
  line L16 (1.75, 9.5) -> (0, 9.5)
  line L17 (0, 9.5) -> (0, 6) construction
  line L18 (25.5, 15) -> (0, 15) construction
  line L19 (12.75, 0) -> (2.5, 0) construction
  line L20 (2.5, 0) -> (2.5, 15)
  line L21 (2.5, 15) -> (12.75, 15) construction
  line L22 (12.75, 15) -> (12.75, 0) construction
  line L23 (0, 0) -> (2.5, 0)
  line L24 (0, 6) -> (0, 5.5)
  line L25 (0, 15) -> (2.5, 15)
  line L26 (25.5, 15) -> (25.5, 0)
  line L27 (24.25, 6) -> (24.25, 9) construction
  line L28 (25.5, 5.5) -> (23.75, 5.5)
  line L29 (23.75, 5.5) -> (23.75, 9.5)
  line L30 (23.75, 9.5) -> (25.5, 9.5)
  line L31 (25.5, 9.5) -> (25.5, 6) construction
  line L32 (23, 0) -> (23, 15)
  line L33 (25.5, 0) -> (23, 0)
  line L34 (25.5, 6) -> (25.5, 5.5)
  line L35 (25.5, 15) -> (23, 15)
  line L36 (1.25, 6) -> (-0.25, 4.5)
  line L37 (1.25, 6) -> (3.3713, 6) construction
  line L38 (24.25, 6) -> (25.75, 4.5)
  point P0 (0, 9.5)
  point P1 (0, 5.5)
  point P2 (25.5, 4.75)
  point P3 (24.75, 5.5)
  point P4 (0.75, 5.5)
  point P5 (0, 4.75)
  dimension "d177" = 13
  dimension "d178" = 1.5
  dimension "d179" = 3
  dimension "d180" = 6
  dimension "d181" = 0.5
  dimension "d182" = 0.5
  dimension "d183" = 0.5
  dimension "d184" = 10.25
  dimension "d199" = 135
extrude "Выдавливание8" add sketch "Эскиз6" against normal blind 25 contours L25 L20 L23 L3 L36 L14 L15 L16 | L26 L30 L29 L28 L38 L33 L32 L35
sketch "Эскиз7" plane through (0, 15, 0) normal (0, 1, 0) x (1, 0, 0)
  line L0 (-12.75, -70.2072) -> (-12.75, -42.2072) construction
  arc A0 (12.75, -70.2072) -> (-12.75, -70.2072) centre (0, -104.941) ccw construction
  line L1 (12.75, -70.2072) -> (12.75, -42.2072) construction
  line L2 (10.25, -42.2072) -> (12.75, -42.2072) construction
  line L3 (10.25, -66.3891) -> (10.25, -42.2072) construction
  arc A1 (10.25, -66.3891) -> (-10.25, -66.3891) centre (0, -101.941) ccw construction
  line L4 (-10.25, -66.3891) -> (-10.25, -42.2072) construction
  line L5 (-12.75, -42.2072) -> (-10.25, -42.2072) construction
  arc A2 (12.75, -70.2072) -> (-12.75, -70.2072) centre (0, -104.941) ccw construction
  point P0 (0, 0)
  point P1 (0, -67.941)
  point P2 (0, -64.941)
ref_plane "РабПлоскость2" through (0, 15, 67.941) normal (0, 0, -1) x (-1, 0, 0)
sketch "Эскиз8" plane through (0, 15, 67.941) normal (0, 0, -1) x (-1, 0, 0)
  line L0 (-12.75, -15) -> (-10.25, -15) construction
  line L1 (-10.25, -15) -> (-10.25, 0) construction
  line L2 (-10.25, 0) -> (-12.75, 0) construction
  line L3 (-12.75, 0) -> (-12.75, -4.75) construction
  line L4 (-12, -5.5) -> (-11, -5.5) construction
  line L5 (-11, -5.5) -> (-11, -9.5) construction
  line L6 (-11, -9.5) -> (-12.75, -9.5) construction
  line L7 (-12.75, -9.5) -> (-12.75, -15) construction
  line L8 (12.75, 0) -> (10.25, 0) construction
  line L9 (10.25, 0) -> (10.25, -15) construction
  line L10 (10.25, -15) -> (12.75, -15) construction
  line L11 (12.75, -15) -> (12.75, -9.5) construction
  line L12 (12.75, -9.5) -> (11, -9.5) construction
  line L13 (11, -9.5) -> (11, -5.5) construction
  line L14 (11, -5.5) -> (12, -5.5) construction
  line L15 (12.75, -4.75) -> (12.75, 0) construction
  line L16 (10.25, -15) -> (10.25, 0) construction
  line L17 (-10.25, 0) -> (10.25, 0) construction
  line L18 (-10.25, 0) -> (-10.25, -15) construction
  line L19 (-10.25, -15) -> (10.25, -15) construction
  line L20 (-11, -5.5) -> (-11, -9.5) construction
  line L21 (11, -5.5) -> (11, -9.5) construction
  line L22 (10.25, 0) -> (-10.25, 0) construction
  line L23 (0, 0) -> (0, -15) construction
  line L24 (12, -5.5) -> (12.75, -4.75) projected
  line L25 (-12.75, -4.75) -> (-12, -5.5) projected
  line L26 (0, 0) -> (0, -10) construction
  circle A0 centre (0, -10) radius 3.25
  line L27 (0, -10) -> (0, -6.75) construction
  line L28 (0, -10) -> (-2.8146, -8.375) construction
  line L29 (0, -10) -> (2.8146, -8.375) construction
  line L30 (0, -10) -> (-3.25, -10) construction
  line L31 (0, -10) -> (0, -13.25) construction
  line L32 (0, -10) -> (-2.8146, -11.625) construction
  line L33 (0, -10) -> (2.8146, -11.625) construction
  line L34 (2.8146, -11.625) -> (2.8146, -8.375)
  line L35 (2.8146, -8.375) -> (0, -6.75)
  line L36 (0, -6.75) -> (-2.8146, -8.375)
  line L37 (2.8146, -11.625) -> (0, -13.25)
  line L38 (0, -13.25) -> (-2.8146, -11.625)
  line L39 (-2.8146, -11.625) -> (-2.8146, -8.375)
  circle A1 centre (0, -10) radius 1.4
  dimension "d202" = 10
  dimension "d203" = 6.5
  dimension "d204" = 60
  dimension "d205" = 2.8
ref_plane "РабПлоскость3" through (0, 15, 65.941) normal (0, 0, 1) x (1, 0, 0)
sketch "Эскиз9" plane through (0, 15, 65.941) normal (0, 0, 1) x (1, 0, 0)
  circle A0 centre (0, -11.1261) radius 1.65 projected
  circle A1 centre (0, -11.1261) radius 3
  point P0 (0, -15)
  dimension "d196" = 6
extrude "Выдавливание12" cut sketch "Эскиз6" against normal blind 25 contours L16 L15 L14 L3 | L14 L36 L3 | L26 L28 L29 L30 | L26 L38 L28
extrude "Выдавливание13" cut sketch "Эскиз8" along normal mid plane 10 contours A1
extrude "Выдавливание15" add sketch "Эскиз8" along normal blind 5.5
extrude "Выдавливание14" cut sketch "Эскиз8" along normal blind 2.5 and the other way blind 5 contours L34 L37 L38 L39 L36 L35
properties part number "kicker_head"
